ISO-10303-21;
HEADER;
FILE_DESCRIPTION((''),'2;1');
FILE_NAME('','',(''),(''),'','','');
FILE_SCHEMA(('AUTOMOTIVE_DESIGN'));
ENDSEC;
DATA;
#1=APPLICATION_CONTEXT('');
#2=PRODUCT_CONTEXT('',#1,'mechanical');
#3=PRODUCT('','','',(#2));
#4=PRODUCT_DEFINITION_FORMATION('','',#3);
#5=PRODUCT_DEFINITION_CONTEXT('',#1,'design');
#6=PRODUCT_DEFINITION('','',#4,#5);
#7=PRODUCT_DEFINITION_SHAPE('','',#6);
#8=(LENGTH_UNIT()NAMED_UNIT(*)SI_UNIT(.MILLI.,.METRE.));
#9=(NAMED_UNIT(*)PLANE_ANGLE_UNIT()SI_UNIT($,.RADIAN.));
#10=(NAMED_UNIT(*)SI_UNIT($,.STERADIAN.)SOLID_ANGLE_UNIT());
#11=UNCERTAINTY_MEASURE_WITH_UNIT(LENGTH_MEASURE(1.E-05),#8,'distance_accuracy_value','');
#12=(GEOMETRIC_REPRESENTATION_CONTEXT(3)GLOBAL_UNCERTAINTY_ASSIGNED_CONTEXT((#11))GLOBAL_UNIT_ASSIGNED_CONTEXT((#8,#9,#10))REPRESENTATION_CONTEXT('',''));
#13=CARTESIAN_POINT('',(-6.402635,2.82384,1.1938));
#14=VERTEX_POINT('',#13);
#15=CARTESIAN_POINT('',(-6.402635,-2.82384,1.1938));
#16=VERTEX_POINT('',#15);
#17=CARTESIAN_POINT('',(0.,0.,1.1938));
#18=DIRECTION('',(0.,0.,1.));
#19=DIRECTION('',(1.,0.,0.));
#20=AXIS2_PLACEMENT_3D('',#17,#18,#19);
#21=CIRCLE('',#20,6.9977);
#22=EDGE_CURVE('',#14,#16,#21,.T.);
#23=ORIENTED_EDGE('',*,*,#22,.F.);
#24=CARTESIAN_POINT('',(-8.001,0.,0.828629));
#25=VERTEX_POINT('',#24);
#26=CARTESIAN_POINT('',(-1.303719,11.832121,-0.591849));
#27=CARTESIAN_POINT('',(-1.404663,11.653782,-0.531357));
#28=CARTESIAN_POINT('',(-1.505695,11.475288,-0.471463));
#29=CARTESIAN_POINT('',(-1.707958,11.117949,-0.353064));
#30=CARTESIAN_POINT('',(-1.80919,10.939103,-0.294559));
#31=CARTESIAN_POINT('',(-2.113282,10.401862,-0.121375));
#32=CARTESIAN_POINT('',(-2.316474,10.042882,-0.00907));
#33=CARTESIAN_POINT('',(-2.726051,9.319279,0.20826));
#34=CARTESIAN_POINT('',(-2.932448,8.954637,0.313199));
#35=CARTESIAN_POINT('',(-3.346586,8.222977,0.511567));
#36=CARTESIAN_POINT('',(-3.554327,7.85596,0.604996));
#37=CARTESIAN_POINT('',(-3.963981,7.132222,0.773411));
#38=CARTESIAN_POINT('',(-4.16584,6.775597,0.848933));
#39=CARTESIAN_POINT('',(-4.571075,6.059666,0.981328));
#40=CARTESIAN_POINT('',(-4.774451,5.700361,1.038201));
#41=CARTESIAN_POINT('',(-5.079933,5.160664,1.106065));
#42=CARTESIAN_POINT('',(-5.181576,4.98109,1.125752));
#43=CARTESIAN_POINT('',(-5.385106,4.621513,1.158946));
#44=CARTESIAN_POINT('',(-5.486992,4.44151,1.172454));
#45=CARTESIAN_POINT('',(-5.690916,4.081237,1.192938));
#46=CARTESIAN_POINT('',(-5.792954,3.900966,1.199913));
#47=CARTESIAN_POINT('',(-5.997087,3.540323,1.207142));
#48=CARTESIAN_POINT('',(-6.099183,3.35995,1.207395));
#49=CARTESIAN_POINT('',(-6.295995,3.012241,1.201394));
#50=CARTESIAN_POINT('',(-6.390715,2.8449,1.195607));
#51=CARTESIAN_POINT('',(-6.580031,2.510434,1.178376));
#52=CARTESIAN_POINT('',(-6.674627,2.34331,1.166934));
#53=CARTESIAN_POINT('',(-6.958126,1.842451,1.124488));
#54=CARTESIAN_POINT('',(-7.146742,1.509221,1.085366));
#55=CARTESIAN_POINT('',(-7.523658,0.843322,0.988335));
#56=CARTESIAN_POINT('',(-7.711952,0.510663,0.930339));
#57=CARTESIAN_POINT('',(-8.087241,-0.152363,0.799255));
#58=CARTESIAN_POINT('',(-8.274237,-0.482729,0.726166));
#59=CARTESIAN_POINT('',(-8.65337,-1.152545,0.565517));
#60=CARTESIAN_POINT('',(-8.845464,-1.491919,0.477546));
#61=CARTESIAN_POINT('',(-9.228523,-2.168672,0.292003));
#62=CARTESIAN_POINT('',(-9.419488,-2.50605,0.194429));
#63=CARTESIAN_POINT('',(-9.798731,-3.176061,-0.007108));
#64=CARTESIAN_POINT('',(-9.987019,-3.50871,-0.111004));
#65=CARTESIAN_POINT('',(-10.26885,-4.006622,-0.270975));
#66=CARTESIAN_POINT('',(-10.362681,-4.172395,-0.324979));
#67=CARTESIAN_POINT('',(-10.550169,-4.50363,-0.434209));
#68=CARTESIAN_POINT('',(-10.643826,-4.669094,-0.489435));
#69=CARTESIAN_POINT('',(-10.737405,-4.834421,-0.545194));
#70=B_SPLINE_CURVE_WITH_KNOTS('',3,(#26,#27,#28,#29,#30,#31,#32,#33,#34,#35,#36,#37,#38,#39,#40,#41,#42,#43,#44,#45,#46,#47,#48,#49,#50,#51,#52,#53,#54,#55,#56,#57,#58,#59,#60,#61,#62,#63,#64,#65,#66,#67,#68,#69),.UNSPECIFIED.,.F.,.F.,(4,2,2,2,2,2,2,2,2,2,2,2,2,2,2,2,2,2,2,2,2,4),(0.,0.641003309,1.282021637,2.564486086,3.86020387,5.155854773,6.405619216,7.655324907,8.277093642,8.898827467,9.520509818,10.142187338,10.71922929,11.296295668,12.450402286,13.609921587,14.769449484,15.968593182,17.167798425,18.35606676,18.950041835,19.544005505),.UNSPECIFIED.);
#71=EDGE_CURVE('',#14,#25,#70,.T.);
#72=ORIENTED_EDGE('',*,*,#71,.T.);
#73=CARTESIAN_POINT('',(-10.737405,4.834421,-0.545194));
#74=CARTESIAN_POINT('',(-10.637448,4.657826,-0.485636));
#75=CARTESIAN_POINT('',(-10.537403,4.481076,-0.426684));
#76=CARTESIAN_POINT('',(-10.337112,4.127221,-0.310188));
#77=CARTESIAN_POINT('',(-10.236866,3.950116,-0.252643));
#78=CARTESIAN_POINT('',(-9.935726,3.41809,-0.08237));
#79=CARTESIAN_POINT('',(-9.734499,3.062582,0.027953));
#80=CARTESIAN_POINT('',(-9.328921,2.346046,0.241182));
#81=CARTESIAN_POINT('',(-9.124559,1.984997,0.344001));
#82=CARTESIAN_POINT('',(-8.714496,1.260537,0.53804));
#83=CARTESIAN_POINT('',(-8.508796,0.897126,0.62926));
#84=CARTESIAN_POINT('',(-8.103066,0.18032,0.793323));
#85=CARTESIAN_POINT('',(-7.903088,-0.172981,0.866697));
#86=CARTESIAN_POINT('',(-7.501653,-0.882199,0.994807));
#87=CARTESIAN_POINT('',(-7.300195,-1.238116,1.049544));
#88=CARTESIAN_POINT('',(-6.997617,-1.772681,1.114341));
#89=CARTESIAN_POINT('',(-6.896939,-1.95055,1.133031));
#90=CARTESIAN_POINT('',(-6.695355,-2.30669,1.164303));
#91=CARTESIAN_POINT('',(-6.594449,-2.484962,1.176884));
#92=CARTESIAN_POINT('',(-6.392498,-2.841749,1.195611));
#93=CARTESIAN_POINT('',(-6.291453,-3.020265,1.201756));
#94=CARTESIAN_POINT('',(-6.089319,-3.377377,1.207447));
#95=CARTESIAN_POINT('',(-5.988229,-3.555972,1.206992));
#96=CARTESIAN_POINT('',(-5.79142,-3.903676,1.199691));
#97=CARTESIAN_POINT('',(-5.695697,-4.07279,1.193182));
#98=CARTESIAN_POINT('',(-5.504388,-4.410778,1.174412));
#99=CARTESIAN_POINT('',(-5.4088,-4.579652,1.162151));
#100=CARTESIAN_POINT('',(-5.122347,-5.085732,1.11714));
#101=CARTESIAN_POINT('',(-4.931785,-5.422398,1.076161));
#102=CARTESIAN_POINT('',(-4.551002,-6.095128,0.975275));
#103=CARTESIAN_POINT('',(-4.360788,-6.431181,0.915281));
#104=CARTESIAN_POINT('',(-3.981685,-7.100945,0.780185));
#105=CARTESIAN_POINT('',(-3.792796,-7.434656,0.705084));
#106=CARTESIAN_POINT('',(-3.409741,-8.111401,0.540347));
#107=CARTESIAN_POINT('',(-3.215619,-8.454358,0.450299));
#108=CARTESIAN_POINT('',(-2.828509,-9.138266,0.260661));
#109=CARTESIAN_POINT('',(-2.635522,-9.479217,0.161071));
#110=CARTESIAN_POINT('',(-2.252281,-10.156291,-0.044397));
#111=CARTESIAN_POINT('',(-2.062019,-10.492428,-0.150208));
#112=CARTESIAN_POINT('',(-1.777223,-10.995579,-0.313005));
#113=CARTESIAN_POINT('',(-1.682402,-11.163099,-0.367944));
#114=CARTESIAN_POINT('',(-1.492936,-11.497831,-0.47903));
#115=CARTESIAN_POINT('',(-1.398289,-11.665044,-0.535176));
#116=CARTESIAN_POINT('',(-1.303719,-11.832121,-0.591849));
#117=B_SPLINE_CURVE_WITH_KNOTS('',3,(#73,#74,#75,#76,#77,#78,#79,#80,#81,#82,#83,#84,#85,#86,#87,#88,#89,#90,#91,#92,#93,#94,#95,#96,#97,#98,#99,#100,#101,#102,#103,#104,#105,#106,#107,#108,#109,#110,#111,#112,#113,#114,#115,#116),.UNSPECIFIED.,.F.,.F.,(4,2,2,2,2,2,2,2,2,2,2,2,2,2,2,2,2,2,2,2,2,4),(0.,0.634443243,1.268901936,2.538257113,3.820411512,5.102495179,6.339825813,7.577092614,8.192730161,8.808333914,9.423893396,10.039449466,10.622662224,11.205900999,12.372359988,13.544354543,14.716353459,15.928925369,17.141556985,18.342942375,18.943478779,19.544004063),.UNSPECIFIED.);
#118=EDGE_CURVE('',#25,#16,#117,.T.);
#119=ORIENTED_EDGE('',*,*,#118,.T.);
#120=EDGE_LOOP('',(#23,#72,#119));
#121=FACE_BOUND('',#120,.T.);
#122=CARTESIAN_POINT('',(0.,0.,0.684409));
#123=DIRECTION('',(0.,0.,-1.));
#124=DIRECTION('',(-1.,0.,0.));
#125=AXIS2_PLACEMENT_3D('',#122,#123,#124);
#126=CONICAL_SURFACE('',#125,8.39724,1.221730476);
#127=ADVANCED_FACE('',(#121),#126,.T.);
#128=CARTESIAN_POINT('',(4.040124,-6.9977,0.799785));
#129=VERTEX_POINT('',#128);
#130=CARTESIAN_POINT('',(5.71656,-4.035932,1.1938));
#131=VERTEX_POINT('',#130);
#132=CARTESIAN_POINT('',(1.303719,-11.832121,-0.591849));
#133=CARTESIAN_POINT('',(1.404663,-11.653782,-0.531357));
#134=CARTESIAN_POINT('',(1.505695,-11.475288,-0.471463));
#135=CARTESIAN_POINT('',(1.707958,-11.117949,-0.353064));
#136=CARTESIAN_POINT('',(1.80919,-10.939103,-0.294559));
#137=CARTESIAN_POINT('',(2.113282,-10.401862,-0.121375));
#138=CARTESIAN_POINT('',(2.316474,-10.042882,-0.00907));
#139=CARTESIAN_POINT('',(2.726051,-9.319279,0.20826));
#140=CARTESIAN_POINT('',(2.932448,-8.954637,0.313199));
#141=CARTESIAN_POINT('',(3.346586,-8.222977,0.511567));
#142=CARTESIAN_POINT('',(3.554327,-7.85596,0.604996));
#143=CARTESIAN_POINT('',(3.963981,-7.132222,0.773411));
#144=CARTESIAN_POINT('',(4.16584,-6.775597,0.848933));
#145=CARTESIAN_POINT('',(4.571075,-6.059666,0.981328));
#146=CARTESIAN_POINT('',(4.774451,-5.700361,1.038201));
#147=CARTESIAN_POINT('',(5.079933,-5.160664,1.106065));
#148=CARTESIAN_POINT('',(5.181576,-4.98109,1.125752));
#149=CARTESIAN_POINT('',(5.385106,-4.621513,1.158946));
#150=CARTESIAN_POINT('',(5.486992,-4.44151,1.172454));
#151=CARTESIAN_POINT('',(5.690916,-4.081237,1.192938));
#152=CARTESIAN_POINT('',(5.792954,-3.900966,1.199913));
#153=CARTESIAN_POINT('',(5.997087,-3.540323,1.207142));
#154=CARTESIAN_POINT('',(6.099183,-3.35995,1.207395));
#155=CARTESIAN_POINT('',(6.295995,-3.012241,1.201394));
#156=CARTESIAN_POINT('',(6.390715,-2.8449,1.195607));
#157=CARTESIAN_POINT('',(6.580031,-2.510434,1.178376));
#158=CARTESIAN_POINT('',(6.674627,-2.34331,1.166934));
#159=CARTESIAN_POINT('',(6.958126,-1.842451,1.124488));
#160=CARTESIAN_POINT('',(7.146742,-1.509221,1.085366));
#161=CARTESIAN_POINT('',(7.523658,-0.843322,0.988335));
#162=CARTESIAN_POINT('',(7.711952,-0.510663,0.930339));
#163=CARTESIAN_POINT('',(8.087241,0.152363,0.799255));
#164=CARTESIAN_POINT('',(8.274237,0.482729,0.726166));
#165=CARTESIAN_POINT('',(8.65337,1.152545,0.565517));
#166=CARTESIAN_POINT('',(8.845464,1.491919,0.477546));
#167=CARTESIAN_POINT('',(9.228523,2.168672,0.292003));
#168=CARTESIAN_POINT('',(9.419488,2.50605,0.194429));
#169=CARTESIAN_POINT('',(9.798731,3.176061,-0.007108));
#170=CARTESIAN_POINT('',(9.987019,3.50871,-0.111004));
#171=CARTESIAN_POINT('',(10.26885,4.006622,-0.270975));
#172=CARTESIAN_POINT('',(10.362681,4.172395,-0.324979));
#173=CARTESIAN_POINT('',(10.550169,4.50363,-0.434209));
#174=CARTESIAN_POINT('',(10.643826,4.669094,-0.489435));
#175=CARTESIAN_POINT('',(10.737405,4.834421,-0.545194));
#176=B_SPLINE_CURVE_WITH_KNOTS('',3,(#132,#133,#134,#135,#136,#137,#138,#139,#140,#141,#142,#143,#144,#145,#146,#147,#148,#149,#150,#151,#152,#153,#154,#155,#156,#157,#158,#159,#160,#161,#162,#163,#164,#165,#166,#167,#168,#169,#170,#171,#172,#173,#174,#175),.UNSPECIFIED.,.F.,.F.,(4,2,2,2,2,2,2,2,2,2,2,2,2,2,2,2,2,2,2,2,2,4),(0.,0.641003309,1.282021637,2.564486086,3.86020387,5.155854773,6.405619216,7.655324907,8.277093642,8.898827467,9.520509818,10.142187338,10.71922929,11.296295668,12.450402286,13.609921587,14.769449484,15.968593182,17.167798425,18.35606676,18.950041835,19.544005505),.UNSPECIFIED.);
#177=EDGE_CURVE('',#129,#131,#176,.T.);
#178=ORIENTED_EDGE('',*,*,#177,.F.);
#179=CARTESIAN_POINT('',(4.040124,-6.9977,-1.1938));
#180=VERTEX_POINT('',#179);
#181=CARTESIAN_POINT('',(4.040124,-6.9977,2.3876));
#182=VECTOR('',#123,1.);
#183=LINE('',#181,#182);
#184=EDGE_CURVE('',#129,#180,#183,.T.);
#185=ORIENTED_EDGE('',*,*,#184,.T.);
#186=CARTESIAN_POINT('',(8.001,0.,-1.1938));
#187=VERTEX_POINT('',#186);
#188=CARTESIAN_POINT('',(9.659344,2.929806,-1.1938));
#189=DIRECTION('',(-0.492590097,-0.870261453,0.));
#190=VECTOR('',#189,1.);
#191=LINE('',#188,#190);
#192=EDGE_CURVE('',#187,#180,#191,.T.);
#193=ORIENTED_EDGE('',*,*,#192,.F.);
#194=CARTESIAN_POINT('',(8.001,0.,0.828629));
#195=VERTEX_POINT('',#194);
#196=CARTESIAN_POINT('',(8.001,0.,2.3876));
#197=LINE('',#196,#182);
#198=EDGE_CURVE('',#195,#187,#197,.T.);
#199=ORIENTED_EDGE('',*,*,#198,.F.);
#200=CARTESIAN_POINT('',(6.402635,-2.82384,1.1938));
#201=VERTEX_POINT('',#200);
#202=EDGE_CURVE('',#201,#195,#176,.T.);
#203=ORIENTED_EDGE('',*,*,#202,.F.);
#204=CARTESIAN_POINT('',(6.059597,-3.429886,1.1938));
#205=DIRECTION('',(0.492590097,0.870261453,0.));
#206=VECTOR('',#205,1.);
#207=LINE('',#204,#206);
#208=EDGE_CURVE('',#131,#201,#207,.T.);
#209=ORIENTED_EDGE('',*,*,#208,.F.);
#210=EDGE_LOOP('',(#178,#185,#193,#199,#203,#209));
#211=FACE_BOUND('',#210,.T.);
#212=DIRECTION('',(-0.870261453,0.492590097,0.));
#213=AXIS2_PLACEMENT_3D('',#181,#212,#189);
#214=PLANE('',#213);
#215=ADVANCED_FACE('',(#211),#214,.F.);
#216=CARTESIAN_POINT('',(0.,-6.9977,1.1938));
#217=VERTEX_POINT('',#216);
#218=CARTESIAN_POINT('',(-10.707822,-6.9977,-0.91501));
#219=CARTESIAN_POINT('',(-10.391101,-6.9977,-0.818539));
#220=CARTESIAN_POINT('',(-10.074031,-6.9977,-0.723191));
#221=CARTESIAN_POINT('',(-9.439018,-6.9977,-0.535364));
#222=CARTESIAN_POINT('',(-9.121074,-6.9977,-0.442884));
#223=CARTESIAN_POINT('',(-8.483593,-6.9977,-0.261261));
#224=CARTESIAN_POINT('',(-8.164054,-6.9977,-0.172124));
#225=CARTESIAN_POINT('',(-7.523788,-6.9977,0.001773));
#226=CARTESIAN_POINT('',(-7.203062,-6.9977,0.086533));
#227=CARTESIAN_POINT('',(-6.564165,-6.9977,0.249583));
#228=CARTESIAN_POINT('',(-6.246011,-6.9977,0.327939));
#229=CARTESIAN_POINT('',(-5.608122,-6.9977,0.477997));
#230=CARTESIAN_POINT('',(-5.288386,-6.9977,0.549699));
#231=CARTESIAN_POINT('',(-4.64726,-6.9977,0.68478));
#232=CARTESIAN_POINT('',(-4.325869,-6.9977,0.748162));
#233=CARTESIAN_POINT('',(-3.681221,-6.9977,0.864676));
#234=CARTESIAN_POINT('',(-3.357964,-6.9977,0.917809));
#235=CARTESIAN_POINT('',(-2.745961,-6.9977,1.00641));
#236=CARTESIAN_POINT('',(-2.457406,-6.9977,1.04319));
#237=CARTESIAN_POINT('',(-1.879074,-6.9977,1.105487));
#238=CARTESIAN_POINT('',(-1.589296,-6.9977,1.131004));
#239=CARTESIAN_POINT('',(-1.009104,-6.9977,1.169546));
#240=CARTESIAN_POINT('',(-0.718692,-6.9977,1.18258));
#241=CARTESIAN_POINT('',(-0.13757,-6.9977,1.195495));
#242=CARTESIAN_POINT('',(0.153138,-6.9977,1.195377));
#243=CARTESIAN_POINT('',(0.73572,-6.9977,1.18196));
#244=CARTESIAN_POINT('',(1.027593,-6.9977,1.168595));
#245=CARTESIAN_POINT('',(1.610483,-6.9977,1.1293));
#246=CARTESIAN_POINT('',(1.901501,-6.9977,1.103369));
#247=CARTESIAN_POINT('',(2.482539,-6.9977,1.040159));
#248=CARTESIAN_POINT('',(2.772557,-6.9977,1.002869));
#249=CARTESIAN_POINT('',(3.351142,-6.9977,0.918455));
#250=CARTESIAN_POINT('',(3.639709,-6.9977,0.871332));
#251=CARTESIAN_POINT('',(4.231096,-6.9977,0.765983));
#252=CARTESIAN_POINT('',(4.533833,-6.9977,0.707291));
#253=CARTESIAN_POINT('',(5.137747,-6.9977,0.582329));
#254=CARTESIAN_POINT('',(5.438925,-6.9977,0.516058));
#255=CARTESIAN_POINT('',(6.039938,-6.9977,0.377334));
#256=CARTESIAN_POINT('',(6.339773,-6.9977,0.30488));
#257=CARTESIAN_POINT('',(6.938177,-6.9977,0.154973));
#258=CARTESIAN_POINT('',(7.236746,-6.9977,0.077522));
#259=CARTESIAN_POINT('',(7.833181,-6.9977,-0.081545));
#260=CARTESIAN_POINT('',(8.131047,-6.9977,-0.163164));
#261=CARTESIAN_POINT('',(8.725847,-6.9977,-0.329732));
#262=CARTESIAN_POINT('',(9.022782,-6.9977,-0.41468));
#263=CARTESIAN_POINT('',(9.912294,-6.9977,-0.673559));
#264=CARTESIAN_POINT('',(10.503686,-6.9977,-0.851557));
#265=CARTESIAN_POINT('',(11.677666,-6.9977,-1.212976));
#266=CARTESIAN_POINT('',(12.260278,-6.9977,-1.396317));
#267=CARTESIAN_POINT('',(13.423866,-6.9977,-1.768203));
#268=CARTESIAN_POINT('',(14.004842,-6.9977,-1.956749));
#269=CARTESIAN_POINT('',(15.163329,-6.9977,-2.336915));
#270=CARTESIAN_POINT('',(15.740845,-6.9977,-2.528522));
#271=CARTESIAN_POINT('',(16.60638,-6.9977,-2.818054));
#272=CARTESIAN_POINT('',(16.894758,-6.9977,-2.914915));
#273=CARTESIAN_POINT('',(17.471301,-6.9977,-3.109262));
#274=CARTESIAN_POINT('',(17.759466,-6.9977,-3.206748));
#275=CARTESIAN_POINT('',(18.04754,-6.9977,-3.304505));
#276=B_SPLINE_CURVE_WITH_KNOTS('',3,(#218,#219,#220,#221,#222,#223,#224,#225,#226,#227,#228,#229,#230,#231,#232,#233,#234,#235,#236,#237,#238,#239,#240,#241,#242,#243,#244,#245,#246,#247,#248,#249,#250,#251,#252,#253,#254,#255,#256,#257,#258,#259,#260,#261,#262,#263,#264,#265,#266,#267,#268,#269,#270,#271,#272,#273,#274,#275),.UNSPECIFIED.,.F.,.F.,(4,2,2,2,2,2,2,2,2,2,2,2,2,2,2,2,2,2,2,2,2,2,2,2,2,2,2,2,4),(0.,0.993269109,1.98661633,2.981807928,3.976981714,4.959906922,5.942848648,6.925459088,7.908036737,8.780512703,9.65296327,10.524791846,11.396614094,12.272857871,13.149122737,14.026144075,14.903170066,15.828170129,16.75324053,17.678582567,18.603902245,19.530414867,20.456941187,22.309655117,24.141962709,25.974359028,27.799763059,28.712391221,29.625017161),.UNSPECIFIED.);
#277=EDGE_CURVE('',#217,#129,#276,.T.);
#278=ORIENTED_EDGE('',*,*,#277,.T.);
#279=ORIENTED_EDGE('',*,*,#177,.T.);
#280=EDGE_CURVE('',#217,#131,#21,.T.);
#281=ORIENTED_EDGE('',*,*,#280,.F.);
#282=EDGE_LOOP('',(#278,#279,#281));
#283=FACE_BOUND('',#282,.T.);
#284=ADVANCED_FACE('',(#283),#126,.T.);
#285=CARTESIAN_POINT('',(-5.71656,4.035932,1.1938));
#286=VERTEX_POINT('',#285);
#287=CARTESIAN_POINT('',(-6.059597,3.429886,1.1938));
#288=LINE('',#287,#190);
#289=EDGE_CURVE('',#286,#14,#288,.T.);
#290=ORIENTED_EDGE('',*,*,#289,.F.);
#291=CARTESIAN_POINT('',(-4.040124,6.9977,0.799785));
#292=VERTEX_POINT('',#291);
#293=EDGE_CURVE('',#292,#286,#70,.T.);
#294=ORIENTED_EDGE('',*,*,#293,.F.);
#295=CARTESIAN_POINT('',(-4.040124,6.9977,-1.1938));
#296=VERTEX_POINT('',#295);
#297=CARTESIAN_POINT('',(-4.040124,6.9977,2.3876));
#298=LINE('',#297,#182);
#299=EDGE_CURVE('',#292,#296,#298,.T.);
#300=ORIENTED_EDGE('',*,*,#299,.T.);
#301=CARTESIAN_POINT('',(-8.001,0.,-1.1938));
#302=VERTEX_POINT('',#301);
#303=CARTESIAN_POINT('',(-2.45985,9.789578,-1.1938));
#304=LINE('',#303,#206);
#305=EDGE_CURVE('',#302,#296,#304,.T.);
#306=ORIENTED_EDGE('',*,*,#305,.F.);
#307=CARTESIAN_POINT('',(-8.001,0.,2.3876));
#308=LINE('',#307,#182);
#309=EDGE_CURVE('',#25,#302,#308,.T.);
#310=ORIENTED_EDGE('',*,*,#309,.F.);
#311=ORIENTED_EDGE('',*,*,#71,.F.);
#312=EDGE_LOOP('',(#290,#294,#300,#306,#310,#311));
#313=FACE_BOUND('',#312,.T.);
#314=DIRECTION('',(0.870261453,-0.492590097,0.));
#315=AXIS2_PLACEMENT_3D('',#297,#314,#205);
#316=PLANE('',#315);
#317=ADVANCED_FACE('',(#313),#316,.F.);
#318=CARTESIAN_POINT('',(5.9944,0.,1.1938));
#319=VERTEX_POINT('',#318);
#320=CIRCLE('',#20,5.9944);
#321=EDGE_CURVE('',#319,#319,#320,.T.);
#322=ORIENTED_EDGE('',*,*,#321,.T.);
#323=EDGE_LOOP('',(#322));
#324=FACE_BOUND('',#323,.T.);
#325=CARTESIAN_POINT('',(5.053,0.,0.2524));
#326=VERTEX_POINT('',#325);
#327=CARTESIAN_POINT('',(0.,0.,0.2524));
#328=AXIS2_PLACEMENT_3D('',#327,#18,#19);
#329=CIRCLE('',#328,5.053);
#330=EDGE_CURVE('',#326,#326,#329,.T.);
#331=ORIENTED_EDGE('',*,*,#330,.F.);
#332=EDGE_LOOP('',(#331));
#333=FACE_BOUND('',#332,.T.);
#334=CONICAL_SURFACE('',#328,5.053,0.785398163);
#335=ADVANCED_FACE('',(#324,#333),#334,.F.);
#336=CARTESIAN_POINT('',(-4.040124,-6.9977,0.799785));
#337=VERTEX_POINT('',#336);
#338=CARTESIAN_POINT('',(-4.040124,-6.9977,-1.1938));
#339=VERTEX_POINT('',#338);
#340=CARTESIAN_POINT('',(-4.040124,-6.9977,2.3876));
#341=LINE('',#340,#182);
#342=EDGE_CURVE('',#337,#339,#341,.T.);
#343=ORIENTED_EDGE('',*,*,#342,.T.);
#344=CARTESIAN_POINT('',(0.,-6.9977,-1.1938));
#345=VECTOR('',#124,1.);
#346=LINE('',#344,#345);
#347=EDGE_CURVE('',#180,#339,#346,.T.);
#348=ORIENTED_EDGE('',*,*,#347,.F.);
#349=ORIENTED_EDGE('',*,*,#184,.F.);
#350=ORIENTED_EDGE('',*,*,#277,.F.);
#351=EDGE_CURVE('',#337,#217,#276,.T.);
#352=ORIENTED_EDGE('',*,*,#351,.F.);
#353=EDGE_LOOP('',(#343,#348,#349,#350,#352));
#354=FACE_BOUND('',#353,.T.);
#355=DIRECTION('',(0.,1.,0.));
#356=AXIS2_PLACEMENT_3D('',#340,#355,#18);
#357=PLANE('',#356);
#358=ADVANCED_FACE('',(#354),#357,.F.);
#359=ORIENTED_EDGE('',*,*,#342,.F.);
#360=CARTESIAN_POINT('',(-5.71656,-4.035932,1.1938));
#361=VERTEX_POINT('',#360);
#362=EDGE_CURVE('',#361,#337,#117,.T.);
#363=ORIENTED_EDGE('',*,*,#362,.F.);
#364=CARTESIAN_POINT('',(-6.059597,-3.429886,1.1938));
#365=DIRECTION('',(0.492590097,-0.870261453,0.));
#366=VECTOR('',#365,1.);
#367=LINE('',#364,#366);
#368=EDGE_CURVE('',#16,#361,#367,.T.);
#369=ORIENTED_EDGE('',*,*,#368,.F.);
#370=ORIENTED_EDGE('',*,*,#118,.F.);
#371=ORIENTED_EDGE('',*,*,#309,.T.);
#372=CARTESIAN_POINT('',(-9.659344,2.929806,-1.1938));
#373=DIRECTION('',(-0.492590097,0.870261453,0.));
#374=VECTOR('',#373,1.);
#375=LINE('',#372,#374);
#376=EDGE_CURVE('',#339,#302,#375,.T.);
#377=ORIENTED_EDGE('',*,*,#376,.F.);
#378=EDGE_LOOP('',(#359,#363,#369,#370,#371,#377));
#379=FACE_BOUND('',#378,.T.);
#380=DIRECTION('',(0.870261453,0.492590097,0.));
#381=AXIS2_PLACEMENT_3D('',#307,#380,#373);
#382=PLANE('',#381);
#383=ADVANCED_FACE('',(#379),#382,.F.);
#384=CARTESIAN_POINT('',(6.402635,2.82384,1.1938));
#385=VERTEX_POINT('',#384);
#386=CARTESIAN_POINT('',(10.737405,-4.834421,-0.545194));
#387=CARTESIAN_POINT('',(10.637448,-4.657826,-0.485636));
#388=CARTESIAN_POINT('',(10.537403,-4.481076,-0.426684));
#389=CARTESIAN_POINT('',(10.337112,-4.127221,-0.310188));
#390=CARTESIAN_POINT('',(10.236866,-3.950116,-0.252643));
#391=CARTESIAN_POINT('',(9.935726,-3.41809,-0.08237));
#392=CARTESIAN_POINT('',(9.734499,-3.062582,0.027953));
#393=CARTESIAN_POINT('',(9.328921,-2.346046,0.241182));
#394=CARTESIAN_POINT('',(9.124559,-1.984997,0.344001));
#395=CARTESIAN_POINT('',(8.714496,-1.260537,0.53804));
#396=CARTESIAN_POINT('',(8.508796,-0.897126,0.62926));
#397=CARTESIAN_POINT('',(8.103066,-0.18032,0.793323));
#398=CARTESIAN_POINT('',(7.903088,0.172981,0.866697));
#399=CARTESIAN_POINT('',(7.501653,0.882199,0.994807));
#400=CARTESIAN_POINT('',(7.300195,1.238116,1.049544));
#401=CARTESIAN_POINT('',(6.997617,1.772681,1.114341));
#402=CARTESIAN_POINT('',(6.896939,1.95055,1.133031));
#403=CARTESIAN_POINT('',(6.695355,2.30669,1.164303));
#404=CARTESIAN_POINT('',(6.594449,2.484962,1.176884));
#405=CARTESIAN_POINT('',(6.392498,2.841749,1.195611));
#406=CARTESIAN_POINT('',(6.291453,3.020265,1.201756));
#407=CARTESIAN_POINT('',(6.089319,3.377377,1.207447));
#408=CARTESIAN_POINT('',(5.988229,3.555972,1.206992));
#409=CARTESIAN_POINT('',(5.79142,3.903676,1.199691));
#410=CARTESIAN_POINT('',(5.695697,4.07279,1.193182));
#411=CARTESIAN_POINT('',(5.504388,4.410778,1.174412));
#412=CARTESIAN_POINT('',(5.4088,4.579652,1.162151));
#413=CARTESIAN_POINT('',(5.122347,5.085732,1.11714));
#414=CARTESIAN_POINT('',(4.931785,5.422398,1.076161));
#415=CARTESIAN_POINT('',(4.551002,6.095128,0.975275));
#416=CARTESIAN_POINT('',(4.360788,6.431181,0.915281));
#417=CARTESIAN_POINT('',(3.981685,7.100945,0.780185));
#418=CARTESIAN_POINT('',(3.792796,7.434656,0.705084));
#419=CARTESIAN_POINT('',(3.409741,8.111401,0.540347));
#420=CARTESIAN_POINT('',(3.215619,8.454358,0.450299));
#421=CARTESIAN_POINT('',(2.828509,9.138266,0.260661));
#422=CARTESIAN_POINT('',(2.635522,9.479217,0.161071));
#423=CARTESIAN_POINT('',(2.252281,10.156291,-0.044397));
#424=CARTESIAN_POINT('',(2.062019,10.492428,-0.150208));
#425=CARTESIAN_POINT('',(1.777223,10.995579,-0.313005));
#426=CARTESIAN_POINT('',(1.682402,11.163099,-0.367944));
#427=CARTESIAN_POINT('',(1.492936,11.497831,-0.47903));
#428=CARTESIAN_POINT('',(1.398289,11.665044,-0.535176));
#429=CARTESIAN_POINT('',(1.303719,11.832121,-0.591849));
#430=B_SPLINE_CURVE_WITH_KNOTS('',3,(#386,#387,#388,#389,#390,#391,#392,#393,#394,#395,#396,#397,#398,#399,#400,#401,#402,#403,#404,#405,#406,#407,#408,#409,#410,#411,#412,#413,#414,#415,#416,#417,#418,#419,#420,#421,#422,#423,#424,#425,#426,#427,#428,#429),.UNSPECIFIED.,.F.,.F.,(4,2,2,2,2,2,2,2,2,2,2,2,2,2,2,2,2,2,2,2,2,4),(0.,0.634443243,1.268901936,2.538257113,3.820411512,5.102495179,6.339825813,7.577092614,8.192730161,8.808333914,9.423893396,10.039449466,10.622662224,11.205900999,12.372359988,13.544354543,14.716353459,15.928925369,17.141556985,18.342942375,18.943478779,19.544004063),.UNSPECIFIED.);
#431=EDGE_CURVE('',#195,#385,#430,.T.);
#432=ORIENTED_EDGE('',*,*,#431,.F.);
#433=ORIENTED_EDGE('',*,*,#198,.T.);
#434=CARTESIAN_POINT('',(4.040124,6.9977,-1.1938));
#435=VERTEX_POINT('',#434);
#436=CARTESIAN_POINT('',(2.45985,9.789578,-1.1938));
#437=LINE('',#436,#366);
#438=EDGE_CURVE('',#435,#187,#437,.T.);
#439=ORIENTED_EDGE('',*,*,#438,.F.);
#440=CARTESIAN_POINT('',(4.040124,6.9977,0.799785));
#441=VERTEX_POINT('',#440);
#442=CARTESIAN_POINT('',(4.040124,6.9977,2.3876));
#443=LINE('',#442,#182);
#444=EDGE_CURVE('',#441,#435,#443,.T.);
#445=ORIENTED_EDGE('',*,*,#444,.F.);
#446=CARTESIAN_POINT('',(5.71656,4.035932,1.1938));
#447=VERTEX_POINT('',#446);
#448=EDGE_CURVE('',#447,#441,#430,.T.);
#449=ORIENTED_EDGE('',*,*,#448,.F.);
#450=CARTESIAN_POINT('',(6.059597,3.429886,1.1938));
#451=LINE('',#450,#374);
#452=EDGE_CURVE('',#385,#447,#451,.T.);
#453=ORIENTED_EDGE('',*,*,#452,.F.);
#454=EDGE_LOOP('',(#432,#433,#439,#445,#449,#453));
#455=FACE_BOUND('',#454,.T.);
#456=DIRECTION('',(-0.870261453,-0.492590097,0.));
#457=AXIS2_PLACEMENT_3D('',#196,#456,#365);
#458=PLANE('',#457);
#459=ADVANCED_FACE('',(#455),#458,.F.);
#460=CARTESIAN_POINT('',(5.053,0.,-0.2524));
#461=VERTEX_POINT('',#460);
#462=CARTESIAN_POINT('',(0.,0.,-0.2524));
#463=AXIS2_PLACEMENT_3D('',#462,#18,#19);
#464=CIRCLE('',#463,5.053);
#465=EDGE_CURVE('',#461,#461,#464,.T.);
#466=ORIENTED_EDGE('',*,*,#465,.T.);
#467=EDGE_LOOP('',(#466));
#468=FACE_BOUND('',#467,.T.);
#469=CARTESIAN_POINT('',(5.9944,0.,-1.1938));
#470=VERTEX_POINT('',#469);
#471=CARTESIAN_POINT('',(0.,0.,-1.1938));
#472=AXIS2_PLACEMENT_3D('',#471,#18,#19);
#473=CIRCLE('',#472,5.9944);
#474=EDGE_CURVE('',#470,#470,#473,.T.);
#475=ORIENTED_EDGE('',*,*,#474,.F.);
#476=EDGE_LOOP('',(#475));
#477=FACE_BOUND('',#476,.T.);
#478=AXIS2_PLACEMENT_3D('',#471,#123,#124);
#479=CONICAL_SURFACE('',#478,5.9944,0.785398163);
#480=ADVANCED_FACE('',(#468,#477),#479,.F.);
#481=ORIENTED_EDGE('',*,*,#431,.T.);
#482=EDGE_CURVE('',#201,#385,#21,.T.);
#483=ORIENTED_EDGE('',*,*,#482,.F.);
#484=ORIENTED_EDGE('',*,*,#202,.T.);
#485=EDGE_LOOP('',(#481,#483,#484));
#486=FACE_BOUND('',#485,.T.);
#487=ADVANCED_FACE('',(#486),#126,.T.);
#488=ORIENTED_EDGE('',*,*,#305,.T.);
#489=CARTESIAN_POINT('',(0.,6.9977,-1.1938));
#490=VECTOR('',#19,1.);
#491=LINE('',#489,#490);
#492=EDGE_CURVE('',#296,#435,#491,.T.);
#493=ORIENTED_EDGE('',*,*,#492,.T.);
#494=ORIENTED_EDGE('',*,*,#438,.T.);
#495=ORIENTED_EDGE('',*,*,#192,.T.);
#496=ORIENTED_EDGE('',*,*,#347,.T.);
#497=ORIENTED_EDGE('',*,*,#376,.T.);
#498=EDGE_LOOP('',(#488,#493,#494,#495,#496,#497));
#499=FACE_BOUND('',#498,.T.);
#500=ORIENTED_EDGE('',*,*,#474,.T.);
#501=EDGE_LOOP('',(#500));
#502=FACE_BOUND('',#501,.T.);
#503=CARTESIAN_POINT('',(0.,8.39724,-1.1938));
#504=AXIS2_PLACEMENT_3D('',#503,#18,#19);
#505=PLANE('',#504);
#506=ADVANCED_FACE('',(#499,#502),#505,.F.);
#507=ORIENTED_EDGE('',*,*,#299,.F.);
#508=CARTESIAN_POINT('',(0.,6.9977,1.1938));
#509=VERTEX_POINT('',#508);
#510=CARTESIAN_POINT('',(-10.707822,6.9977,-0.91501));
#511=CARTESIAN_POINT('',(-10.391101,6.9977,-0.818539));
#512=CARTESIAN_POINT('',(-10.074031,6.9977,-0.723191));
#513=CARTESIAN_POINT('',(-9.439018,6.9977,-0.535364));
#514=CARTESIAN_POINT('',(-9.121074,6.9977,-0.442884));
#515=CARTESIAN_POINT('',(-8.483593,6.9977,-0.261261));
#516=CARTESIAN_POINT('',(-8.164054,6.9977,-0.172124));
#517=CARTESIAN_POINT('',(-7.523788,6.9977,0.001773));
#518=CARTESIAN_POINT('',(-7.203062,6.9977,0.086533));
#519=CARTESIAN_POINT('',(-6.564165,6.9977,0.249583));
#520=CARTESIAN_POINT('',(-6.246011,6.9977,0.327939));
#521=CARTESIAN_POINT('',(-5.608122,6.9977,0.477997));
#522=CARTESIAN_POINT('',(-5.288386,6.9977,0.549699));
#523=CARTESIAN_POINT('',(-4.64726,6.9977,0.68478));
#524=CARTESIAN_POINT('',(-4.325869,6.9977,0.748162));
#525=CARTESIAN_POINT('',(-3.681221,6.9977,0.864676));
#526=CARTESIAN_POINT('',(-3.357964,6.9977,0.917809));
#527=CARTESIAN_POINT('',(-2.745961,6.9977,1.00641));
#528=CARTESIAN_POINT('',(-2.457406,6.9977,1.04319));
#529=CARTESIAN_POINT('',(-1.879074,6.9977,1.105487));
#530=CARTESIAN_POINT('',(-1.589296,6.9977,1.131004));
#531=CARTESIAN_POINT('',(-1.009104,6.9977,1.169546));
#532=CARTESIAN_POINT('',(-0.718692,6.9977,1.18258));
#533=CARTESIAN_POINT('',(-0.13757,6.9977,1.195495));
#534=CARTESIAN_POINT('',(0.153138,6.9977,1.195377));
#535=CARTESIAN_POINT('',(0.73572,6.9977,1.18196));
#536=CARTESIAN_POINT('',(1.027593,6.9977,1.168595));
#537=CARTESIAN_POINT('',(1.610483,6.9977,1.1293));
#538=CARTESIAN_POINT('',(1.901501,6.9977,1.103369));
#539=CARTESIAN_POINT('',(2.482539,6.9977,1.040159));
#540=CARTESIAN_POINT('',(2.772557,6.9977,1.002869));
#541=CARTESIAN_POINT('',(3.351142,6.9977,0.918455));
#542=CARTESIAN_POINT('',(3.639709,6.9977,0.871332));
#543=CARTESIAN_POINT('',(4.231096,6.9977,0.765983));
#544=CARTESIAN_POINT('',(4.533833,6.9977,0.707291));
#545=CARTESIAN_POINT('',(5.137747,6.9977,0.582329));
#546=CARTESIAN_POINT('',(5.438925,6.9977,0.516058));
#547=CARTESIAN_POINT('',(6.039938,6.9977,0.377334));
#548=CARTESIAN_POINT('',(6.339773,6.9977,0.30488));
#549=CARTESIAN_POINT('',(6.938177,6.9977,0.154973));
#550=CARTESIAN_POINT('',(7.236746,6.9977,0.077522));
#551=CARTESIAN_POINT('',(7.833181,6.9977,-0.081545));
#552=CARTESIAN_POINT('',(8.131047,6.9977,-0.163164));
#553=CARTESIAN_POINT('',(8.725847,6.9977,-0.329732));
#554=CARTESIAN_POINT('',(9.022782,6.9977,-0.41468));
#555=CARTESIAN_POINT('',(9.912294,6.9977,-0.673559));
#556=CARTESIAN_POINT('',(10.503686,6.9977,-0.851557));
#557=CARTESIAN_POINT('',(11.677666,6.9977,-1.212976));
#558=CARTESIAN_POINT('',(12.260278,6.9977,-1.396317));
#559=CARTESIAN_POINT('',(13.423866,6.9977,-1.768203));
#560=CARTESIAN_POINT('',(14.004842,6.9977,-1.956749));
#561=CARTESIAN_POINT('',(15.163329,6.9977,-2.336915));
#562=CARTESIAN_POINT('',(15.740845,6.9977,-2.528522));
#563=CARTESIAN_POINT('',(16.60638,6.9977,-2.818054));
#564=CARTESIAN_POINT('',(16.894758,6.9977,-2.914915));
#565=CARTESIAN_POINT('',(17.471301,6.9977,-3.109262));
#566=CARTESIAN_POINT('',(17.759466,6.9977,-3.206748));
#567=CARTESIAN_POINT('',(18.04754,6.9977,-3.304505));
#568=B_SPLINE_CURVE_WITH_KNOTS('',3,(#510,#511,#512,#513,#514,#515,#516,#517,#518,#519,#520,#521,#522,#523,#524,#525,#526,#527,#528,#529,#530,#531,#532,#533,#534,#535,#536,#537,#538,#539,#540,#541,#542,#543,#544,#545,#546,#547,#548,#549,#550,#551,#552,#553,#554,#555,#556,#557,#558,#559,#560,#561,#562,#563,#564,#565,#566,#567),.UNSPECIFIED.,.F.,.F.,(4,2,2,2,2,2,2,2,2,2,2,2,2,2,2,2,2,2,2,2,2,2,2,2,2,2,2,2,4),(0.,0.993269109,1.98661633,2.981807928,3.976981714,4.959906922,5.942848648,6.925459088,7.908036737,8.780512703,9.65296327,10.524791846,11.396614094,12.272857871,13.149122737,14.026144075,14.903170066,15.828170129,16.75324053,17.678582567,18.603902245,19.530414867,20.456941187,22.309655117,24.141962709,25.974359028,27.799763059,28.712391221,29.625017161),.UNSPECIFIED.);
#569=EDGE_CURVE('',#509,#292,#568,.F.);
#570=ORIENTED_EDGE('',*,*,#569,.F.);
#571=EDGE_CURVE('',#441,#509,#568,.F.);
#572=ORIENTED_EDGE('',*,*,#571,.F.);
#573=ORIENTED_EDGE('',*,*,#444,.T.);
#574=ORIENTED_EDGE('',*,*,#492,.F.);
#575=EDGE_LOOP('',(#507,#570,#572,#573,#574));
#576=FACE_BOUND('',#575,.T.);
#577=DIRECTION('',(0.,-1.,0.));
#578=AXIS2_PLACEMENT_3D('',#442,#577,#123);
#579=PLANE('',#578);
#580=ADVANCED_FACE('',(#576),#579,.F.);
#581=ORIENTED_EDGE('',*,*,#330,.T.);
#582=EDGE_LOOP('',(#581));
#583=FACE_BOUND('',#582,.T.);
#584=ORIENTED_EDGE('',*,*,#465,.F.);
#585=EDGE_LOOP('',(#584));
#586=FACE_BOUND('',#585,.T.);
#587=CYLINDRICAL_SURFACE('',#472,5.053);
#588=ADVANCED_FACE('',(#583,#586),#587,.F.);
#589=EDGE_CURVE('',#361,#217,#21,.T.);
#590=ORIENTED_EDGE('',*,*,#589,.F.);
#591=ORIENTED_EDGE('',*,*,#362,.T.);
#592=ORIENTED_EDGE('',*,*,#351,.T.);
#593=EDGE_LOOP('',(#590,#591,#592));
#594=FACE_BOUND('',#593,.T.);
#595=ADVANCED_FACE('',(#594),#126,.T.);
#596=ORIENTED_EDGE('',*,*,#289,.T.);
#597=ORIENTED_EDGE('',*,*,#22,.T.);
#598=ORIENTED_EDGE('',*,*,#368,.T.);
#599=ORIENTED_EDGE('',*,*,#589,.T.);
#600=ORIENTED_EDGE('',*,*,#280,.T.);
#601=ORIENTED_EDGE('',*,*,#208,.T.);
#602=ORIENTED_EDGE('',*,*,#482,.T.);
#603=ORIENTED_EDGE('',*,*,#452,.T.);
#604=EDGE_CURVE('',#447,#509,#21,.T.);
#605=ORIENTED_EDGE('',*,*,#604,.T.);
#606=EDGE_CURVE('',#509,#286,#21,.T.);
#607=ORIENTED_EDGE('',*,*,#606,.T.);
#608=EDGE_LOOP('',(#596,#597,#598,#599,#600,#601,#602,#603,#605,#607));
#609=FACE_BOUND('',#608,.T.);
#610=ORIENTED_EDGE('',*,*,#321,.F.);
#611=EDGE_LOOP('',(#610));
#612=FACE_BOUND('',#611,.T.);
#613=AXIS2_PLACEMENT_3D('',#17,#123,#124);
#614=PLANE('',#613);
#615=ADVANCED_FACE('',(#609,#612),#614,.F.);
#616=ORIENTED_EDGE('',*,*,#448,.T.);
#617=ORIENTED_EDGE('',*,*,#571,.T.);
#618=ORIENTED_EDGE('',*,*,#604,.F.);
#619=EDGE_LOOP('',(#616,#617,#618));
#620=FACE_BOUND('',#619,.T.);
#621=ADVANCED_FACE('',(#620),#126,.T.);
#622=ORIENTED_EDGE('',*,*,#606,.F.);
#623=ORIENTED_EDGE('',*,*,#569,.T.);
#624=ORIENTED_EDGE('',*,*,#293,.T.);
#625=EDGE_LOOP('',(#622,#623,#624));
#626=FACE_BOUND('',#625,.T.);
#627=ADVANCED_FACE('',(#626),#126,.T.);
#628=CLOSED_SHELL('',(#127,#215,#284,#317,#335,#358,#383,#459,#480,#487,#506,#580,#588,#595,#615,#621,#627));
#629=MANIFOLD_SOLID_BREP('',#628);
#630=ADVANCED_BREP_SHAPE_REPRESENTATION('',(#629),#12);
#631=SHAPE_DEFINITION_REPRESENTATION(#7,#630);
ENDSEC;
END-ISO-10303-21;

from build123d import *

# Parameters (mm, degrees)
SKETCH2_W               = 27.9908
SKETCH2_H               = 27.9908
CUT_EXTRUDE1_DEPTH      = 2.3876
CUT_EXTRUDE1_DEPTH_BACK = 2.3876


with BuildPart() as part:
    # Sketch1 → Revolve1 (revolve)
    with BuildSketch(Plane(origin=(0, 0, 0), x_dir=(0, 0, -1), z_dir=(1, 0, 0))):
        Polygon((-1.1938, 0), (-1.1938, 6.9977), (-0.684409098, 8.39724), (1.1938, 8.39724), (1.1938, 0), align=None)
    revolve(axis=Axis((0, 0, -1.1938), (0, 0, 1)))

    # Sketch2 → Cut-Extrude1 (cut, two sides)
    with BuildSketch(Plane.XY) as cut_extrude1_sk:
        Rectangle(SKETCH2_W, SKETCH2_H)
        Polygon((-8.001, 0), (-4.040123979, -6.9977), (4.040123979, -6.9977), (8.001, 0), (4.040123979, 6.9977), (-4.040123979, 6.9977), align=None, mode=Mode.SUBTRACT)
    extrude(amount=CUT_EXTRUDE1_DEPTH, mode=Mode.SUBTRACT)
    extrude(cut_extrude1_sk.sketch, amount=-CUT_EXTRUDE1_DEPTH_BACK, mode=Mode.SUBTRACT)

    # Sketch3 → Cut-Revolve1 (revolve, cut)
    with BuildSketch(Plane(origin=(0, 0, 0), x_dir=(0, 0, -1), z_dir=(1, 0, 0))):
        Polygon((-1.1938, 0), (-1.1938, 5.9944), (-0.2524, 5.053), (0.2524, 5.053), (1.1938, 5.9944), (1.1938, 0), align=None)
    revolve(axis=Axis((0, 0, -1.1938), (0, 0, 1)), mode=Mode.SUBTRACT)


solid = part.part
